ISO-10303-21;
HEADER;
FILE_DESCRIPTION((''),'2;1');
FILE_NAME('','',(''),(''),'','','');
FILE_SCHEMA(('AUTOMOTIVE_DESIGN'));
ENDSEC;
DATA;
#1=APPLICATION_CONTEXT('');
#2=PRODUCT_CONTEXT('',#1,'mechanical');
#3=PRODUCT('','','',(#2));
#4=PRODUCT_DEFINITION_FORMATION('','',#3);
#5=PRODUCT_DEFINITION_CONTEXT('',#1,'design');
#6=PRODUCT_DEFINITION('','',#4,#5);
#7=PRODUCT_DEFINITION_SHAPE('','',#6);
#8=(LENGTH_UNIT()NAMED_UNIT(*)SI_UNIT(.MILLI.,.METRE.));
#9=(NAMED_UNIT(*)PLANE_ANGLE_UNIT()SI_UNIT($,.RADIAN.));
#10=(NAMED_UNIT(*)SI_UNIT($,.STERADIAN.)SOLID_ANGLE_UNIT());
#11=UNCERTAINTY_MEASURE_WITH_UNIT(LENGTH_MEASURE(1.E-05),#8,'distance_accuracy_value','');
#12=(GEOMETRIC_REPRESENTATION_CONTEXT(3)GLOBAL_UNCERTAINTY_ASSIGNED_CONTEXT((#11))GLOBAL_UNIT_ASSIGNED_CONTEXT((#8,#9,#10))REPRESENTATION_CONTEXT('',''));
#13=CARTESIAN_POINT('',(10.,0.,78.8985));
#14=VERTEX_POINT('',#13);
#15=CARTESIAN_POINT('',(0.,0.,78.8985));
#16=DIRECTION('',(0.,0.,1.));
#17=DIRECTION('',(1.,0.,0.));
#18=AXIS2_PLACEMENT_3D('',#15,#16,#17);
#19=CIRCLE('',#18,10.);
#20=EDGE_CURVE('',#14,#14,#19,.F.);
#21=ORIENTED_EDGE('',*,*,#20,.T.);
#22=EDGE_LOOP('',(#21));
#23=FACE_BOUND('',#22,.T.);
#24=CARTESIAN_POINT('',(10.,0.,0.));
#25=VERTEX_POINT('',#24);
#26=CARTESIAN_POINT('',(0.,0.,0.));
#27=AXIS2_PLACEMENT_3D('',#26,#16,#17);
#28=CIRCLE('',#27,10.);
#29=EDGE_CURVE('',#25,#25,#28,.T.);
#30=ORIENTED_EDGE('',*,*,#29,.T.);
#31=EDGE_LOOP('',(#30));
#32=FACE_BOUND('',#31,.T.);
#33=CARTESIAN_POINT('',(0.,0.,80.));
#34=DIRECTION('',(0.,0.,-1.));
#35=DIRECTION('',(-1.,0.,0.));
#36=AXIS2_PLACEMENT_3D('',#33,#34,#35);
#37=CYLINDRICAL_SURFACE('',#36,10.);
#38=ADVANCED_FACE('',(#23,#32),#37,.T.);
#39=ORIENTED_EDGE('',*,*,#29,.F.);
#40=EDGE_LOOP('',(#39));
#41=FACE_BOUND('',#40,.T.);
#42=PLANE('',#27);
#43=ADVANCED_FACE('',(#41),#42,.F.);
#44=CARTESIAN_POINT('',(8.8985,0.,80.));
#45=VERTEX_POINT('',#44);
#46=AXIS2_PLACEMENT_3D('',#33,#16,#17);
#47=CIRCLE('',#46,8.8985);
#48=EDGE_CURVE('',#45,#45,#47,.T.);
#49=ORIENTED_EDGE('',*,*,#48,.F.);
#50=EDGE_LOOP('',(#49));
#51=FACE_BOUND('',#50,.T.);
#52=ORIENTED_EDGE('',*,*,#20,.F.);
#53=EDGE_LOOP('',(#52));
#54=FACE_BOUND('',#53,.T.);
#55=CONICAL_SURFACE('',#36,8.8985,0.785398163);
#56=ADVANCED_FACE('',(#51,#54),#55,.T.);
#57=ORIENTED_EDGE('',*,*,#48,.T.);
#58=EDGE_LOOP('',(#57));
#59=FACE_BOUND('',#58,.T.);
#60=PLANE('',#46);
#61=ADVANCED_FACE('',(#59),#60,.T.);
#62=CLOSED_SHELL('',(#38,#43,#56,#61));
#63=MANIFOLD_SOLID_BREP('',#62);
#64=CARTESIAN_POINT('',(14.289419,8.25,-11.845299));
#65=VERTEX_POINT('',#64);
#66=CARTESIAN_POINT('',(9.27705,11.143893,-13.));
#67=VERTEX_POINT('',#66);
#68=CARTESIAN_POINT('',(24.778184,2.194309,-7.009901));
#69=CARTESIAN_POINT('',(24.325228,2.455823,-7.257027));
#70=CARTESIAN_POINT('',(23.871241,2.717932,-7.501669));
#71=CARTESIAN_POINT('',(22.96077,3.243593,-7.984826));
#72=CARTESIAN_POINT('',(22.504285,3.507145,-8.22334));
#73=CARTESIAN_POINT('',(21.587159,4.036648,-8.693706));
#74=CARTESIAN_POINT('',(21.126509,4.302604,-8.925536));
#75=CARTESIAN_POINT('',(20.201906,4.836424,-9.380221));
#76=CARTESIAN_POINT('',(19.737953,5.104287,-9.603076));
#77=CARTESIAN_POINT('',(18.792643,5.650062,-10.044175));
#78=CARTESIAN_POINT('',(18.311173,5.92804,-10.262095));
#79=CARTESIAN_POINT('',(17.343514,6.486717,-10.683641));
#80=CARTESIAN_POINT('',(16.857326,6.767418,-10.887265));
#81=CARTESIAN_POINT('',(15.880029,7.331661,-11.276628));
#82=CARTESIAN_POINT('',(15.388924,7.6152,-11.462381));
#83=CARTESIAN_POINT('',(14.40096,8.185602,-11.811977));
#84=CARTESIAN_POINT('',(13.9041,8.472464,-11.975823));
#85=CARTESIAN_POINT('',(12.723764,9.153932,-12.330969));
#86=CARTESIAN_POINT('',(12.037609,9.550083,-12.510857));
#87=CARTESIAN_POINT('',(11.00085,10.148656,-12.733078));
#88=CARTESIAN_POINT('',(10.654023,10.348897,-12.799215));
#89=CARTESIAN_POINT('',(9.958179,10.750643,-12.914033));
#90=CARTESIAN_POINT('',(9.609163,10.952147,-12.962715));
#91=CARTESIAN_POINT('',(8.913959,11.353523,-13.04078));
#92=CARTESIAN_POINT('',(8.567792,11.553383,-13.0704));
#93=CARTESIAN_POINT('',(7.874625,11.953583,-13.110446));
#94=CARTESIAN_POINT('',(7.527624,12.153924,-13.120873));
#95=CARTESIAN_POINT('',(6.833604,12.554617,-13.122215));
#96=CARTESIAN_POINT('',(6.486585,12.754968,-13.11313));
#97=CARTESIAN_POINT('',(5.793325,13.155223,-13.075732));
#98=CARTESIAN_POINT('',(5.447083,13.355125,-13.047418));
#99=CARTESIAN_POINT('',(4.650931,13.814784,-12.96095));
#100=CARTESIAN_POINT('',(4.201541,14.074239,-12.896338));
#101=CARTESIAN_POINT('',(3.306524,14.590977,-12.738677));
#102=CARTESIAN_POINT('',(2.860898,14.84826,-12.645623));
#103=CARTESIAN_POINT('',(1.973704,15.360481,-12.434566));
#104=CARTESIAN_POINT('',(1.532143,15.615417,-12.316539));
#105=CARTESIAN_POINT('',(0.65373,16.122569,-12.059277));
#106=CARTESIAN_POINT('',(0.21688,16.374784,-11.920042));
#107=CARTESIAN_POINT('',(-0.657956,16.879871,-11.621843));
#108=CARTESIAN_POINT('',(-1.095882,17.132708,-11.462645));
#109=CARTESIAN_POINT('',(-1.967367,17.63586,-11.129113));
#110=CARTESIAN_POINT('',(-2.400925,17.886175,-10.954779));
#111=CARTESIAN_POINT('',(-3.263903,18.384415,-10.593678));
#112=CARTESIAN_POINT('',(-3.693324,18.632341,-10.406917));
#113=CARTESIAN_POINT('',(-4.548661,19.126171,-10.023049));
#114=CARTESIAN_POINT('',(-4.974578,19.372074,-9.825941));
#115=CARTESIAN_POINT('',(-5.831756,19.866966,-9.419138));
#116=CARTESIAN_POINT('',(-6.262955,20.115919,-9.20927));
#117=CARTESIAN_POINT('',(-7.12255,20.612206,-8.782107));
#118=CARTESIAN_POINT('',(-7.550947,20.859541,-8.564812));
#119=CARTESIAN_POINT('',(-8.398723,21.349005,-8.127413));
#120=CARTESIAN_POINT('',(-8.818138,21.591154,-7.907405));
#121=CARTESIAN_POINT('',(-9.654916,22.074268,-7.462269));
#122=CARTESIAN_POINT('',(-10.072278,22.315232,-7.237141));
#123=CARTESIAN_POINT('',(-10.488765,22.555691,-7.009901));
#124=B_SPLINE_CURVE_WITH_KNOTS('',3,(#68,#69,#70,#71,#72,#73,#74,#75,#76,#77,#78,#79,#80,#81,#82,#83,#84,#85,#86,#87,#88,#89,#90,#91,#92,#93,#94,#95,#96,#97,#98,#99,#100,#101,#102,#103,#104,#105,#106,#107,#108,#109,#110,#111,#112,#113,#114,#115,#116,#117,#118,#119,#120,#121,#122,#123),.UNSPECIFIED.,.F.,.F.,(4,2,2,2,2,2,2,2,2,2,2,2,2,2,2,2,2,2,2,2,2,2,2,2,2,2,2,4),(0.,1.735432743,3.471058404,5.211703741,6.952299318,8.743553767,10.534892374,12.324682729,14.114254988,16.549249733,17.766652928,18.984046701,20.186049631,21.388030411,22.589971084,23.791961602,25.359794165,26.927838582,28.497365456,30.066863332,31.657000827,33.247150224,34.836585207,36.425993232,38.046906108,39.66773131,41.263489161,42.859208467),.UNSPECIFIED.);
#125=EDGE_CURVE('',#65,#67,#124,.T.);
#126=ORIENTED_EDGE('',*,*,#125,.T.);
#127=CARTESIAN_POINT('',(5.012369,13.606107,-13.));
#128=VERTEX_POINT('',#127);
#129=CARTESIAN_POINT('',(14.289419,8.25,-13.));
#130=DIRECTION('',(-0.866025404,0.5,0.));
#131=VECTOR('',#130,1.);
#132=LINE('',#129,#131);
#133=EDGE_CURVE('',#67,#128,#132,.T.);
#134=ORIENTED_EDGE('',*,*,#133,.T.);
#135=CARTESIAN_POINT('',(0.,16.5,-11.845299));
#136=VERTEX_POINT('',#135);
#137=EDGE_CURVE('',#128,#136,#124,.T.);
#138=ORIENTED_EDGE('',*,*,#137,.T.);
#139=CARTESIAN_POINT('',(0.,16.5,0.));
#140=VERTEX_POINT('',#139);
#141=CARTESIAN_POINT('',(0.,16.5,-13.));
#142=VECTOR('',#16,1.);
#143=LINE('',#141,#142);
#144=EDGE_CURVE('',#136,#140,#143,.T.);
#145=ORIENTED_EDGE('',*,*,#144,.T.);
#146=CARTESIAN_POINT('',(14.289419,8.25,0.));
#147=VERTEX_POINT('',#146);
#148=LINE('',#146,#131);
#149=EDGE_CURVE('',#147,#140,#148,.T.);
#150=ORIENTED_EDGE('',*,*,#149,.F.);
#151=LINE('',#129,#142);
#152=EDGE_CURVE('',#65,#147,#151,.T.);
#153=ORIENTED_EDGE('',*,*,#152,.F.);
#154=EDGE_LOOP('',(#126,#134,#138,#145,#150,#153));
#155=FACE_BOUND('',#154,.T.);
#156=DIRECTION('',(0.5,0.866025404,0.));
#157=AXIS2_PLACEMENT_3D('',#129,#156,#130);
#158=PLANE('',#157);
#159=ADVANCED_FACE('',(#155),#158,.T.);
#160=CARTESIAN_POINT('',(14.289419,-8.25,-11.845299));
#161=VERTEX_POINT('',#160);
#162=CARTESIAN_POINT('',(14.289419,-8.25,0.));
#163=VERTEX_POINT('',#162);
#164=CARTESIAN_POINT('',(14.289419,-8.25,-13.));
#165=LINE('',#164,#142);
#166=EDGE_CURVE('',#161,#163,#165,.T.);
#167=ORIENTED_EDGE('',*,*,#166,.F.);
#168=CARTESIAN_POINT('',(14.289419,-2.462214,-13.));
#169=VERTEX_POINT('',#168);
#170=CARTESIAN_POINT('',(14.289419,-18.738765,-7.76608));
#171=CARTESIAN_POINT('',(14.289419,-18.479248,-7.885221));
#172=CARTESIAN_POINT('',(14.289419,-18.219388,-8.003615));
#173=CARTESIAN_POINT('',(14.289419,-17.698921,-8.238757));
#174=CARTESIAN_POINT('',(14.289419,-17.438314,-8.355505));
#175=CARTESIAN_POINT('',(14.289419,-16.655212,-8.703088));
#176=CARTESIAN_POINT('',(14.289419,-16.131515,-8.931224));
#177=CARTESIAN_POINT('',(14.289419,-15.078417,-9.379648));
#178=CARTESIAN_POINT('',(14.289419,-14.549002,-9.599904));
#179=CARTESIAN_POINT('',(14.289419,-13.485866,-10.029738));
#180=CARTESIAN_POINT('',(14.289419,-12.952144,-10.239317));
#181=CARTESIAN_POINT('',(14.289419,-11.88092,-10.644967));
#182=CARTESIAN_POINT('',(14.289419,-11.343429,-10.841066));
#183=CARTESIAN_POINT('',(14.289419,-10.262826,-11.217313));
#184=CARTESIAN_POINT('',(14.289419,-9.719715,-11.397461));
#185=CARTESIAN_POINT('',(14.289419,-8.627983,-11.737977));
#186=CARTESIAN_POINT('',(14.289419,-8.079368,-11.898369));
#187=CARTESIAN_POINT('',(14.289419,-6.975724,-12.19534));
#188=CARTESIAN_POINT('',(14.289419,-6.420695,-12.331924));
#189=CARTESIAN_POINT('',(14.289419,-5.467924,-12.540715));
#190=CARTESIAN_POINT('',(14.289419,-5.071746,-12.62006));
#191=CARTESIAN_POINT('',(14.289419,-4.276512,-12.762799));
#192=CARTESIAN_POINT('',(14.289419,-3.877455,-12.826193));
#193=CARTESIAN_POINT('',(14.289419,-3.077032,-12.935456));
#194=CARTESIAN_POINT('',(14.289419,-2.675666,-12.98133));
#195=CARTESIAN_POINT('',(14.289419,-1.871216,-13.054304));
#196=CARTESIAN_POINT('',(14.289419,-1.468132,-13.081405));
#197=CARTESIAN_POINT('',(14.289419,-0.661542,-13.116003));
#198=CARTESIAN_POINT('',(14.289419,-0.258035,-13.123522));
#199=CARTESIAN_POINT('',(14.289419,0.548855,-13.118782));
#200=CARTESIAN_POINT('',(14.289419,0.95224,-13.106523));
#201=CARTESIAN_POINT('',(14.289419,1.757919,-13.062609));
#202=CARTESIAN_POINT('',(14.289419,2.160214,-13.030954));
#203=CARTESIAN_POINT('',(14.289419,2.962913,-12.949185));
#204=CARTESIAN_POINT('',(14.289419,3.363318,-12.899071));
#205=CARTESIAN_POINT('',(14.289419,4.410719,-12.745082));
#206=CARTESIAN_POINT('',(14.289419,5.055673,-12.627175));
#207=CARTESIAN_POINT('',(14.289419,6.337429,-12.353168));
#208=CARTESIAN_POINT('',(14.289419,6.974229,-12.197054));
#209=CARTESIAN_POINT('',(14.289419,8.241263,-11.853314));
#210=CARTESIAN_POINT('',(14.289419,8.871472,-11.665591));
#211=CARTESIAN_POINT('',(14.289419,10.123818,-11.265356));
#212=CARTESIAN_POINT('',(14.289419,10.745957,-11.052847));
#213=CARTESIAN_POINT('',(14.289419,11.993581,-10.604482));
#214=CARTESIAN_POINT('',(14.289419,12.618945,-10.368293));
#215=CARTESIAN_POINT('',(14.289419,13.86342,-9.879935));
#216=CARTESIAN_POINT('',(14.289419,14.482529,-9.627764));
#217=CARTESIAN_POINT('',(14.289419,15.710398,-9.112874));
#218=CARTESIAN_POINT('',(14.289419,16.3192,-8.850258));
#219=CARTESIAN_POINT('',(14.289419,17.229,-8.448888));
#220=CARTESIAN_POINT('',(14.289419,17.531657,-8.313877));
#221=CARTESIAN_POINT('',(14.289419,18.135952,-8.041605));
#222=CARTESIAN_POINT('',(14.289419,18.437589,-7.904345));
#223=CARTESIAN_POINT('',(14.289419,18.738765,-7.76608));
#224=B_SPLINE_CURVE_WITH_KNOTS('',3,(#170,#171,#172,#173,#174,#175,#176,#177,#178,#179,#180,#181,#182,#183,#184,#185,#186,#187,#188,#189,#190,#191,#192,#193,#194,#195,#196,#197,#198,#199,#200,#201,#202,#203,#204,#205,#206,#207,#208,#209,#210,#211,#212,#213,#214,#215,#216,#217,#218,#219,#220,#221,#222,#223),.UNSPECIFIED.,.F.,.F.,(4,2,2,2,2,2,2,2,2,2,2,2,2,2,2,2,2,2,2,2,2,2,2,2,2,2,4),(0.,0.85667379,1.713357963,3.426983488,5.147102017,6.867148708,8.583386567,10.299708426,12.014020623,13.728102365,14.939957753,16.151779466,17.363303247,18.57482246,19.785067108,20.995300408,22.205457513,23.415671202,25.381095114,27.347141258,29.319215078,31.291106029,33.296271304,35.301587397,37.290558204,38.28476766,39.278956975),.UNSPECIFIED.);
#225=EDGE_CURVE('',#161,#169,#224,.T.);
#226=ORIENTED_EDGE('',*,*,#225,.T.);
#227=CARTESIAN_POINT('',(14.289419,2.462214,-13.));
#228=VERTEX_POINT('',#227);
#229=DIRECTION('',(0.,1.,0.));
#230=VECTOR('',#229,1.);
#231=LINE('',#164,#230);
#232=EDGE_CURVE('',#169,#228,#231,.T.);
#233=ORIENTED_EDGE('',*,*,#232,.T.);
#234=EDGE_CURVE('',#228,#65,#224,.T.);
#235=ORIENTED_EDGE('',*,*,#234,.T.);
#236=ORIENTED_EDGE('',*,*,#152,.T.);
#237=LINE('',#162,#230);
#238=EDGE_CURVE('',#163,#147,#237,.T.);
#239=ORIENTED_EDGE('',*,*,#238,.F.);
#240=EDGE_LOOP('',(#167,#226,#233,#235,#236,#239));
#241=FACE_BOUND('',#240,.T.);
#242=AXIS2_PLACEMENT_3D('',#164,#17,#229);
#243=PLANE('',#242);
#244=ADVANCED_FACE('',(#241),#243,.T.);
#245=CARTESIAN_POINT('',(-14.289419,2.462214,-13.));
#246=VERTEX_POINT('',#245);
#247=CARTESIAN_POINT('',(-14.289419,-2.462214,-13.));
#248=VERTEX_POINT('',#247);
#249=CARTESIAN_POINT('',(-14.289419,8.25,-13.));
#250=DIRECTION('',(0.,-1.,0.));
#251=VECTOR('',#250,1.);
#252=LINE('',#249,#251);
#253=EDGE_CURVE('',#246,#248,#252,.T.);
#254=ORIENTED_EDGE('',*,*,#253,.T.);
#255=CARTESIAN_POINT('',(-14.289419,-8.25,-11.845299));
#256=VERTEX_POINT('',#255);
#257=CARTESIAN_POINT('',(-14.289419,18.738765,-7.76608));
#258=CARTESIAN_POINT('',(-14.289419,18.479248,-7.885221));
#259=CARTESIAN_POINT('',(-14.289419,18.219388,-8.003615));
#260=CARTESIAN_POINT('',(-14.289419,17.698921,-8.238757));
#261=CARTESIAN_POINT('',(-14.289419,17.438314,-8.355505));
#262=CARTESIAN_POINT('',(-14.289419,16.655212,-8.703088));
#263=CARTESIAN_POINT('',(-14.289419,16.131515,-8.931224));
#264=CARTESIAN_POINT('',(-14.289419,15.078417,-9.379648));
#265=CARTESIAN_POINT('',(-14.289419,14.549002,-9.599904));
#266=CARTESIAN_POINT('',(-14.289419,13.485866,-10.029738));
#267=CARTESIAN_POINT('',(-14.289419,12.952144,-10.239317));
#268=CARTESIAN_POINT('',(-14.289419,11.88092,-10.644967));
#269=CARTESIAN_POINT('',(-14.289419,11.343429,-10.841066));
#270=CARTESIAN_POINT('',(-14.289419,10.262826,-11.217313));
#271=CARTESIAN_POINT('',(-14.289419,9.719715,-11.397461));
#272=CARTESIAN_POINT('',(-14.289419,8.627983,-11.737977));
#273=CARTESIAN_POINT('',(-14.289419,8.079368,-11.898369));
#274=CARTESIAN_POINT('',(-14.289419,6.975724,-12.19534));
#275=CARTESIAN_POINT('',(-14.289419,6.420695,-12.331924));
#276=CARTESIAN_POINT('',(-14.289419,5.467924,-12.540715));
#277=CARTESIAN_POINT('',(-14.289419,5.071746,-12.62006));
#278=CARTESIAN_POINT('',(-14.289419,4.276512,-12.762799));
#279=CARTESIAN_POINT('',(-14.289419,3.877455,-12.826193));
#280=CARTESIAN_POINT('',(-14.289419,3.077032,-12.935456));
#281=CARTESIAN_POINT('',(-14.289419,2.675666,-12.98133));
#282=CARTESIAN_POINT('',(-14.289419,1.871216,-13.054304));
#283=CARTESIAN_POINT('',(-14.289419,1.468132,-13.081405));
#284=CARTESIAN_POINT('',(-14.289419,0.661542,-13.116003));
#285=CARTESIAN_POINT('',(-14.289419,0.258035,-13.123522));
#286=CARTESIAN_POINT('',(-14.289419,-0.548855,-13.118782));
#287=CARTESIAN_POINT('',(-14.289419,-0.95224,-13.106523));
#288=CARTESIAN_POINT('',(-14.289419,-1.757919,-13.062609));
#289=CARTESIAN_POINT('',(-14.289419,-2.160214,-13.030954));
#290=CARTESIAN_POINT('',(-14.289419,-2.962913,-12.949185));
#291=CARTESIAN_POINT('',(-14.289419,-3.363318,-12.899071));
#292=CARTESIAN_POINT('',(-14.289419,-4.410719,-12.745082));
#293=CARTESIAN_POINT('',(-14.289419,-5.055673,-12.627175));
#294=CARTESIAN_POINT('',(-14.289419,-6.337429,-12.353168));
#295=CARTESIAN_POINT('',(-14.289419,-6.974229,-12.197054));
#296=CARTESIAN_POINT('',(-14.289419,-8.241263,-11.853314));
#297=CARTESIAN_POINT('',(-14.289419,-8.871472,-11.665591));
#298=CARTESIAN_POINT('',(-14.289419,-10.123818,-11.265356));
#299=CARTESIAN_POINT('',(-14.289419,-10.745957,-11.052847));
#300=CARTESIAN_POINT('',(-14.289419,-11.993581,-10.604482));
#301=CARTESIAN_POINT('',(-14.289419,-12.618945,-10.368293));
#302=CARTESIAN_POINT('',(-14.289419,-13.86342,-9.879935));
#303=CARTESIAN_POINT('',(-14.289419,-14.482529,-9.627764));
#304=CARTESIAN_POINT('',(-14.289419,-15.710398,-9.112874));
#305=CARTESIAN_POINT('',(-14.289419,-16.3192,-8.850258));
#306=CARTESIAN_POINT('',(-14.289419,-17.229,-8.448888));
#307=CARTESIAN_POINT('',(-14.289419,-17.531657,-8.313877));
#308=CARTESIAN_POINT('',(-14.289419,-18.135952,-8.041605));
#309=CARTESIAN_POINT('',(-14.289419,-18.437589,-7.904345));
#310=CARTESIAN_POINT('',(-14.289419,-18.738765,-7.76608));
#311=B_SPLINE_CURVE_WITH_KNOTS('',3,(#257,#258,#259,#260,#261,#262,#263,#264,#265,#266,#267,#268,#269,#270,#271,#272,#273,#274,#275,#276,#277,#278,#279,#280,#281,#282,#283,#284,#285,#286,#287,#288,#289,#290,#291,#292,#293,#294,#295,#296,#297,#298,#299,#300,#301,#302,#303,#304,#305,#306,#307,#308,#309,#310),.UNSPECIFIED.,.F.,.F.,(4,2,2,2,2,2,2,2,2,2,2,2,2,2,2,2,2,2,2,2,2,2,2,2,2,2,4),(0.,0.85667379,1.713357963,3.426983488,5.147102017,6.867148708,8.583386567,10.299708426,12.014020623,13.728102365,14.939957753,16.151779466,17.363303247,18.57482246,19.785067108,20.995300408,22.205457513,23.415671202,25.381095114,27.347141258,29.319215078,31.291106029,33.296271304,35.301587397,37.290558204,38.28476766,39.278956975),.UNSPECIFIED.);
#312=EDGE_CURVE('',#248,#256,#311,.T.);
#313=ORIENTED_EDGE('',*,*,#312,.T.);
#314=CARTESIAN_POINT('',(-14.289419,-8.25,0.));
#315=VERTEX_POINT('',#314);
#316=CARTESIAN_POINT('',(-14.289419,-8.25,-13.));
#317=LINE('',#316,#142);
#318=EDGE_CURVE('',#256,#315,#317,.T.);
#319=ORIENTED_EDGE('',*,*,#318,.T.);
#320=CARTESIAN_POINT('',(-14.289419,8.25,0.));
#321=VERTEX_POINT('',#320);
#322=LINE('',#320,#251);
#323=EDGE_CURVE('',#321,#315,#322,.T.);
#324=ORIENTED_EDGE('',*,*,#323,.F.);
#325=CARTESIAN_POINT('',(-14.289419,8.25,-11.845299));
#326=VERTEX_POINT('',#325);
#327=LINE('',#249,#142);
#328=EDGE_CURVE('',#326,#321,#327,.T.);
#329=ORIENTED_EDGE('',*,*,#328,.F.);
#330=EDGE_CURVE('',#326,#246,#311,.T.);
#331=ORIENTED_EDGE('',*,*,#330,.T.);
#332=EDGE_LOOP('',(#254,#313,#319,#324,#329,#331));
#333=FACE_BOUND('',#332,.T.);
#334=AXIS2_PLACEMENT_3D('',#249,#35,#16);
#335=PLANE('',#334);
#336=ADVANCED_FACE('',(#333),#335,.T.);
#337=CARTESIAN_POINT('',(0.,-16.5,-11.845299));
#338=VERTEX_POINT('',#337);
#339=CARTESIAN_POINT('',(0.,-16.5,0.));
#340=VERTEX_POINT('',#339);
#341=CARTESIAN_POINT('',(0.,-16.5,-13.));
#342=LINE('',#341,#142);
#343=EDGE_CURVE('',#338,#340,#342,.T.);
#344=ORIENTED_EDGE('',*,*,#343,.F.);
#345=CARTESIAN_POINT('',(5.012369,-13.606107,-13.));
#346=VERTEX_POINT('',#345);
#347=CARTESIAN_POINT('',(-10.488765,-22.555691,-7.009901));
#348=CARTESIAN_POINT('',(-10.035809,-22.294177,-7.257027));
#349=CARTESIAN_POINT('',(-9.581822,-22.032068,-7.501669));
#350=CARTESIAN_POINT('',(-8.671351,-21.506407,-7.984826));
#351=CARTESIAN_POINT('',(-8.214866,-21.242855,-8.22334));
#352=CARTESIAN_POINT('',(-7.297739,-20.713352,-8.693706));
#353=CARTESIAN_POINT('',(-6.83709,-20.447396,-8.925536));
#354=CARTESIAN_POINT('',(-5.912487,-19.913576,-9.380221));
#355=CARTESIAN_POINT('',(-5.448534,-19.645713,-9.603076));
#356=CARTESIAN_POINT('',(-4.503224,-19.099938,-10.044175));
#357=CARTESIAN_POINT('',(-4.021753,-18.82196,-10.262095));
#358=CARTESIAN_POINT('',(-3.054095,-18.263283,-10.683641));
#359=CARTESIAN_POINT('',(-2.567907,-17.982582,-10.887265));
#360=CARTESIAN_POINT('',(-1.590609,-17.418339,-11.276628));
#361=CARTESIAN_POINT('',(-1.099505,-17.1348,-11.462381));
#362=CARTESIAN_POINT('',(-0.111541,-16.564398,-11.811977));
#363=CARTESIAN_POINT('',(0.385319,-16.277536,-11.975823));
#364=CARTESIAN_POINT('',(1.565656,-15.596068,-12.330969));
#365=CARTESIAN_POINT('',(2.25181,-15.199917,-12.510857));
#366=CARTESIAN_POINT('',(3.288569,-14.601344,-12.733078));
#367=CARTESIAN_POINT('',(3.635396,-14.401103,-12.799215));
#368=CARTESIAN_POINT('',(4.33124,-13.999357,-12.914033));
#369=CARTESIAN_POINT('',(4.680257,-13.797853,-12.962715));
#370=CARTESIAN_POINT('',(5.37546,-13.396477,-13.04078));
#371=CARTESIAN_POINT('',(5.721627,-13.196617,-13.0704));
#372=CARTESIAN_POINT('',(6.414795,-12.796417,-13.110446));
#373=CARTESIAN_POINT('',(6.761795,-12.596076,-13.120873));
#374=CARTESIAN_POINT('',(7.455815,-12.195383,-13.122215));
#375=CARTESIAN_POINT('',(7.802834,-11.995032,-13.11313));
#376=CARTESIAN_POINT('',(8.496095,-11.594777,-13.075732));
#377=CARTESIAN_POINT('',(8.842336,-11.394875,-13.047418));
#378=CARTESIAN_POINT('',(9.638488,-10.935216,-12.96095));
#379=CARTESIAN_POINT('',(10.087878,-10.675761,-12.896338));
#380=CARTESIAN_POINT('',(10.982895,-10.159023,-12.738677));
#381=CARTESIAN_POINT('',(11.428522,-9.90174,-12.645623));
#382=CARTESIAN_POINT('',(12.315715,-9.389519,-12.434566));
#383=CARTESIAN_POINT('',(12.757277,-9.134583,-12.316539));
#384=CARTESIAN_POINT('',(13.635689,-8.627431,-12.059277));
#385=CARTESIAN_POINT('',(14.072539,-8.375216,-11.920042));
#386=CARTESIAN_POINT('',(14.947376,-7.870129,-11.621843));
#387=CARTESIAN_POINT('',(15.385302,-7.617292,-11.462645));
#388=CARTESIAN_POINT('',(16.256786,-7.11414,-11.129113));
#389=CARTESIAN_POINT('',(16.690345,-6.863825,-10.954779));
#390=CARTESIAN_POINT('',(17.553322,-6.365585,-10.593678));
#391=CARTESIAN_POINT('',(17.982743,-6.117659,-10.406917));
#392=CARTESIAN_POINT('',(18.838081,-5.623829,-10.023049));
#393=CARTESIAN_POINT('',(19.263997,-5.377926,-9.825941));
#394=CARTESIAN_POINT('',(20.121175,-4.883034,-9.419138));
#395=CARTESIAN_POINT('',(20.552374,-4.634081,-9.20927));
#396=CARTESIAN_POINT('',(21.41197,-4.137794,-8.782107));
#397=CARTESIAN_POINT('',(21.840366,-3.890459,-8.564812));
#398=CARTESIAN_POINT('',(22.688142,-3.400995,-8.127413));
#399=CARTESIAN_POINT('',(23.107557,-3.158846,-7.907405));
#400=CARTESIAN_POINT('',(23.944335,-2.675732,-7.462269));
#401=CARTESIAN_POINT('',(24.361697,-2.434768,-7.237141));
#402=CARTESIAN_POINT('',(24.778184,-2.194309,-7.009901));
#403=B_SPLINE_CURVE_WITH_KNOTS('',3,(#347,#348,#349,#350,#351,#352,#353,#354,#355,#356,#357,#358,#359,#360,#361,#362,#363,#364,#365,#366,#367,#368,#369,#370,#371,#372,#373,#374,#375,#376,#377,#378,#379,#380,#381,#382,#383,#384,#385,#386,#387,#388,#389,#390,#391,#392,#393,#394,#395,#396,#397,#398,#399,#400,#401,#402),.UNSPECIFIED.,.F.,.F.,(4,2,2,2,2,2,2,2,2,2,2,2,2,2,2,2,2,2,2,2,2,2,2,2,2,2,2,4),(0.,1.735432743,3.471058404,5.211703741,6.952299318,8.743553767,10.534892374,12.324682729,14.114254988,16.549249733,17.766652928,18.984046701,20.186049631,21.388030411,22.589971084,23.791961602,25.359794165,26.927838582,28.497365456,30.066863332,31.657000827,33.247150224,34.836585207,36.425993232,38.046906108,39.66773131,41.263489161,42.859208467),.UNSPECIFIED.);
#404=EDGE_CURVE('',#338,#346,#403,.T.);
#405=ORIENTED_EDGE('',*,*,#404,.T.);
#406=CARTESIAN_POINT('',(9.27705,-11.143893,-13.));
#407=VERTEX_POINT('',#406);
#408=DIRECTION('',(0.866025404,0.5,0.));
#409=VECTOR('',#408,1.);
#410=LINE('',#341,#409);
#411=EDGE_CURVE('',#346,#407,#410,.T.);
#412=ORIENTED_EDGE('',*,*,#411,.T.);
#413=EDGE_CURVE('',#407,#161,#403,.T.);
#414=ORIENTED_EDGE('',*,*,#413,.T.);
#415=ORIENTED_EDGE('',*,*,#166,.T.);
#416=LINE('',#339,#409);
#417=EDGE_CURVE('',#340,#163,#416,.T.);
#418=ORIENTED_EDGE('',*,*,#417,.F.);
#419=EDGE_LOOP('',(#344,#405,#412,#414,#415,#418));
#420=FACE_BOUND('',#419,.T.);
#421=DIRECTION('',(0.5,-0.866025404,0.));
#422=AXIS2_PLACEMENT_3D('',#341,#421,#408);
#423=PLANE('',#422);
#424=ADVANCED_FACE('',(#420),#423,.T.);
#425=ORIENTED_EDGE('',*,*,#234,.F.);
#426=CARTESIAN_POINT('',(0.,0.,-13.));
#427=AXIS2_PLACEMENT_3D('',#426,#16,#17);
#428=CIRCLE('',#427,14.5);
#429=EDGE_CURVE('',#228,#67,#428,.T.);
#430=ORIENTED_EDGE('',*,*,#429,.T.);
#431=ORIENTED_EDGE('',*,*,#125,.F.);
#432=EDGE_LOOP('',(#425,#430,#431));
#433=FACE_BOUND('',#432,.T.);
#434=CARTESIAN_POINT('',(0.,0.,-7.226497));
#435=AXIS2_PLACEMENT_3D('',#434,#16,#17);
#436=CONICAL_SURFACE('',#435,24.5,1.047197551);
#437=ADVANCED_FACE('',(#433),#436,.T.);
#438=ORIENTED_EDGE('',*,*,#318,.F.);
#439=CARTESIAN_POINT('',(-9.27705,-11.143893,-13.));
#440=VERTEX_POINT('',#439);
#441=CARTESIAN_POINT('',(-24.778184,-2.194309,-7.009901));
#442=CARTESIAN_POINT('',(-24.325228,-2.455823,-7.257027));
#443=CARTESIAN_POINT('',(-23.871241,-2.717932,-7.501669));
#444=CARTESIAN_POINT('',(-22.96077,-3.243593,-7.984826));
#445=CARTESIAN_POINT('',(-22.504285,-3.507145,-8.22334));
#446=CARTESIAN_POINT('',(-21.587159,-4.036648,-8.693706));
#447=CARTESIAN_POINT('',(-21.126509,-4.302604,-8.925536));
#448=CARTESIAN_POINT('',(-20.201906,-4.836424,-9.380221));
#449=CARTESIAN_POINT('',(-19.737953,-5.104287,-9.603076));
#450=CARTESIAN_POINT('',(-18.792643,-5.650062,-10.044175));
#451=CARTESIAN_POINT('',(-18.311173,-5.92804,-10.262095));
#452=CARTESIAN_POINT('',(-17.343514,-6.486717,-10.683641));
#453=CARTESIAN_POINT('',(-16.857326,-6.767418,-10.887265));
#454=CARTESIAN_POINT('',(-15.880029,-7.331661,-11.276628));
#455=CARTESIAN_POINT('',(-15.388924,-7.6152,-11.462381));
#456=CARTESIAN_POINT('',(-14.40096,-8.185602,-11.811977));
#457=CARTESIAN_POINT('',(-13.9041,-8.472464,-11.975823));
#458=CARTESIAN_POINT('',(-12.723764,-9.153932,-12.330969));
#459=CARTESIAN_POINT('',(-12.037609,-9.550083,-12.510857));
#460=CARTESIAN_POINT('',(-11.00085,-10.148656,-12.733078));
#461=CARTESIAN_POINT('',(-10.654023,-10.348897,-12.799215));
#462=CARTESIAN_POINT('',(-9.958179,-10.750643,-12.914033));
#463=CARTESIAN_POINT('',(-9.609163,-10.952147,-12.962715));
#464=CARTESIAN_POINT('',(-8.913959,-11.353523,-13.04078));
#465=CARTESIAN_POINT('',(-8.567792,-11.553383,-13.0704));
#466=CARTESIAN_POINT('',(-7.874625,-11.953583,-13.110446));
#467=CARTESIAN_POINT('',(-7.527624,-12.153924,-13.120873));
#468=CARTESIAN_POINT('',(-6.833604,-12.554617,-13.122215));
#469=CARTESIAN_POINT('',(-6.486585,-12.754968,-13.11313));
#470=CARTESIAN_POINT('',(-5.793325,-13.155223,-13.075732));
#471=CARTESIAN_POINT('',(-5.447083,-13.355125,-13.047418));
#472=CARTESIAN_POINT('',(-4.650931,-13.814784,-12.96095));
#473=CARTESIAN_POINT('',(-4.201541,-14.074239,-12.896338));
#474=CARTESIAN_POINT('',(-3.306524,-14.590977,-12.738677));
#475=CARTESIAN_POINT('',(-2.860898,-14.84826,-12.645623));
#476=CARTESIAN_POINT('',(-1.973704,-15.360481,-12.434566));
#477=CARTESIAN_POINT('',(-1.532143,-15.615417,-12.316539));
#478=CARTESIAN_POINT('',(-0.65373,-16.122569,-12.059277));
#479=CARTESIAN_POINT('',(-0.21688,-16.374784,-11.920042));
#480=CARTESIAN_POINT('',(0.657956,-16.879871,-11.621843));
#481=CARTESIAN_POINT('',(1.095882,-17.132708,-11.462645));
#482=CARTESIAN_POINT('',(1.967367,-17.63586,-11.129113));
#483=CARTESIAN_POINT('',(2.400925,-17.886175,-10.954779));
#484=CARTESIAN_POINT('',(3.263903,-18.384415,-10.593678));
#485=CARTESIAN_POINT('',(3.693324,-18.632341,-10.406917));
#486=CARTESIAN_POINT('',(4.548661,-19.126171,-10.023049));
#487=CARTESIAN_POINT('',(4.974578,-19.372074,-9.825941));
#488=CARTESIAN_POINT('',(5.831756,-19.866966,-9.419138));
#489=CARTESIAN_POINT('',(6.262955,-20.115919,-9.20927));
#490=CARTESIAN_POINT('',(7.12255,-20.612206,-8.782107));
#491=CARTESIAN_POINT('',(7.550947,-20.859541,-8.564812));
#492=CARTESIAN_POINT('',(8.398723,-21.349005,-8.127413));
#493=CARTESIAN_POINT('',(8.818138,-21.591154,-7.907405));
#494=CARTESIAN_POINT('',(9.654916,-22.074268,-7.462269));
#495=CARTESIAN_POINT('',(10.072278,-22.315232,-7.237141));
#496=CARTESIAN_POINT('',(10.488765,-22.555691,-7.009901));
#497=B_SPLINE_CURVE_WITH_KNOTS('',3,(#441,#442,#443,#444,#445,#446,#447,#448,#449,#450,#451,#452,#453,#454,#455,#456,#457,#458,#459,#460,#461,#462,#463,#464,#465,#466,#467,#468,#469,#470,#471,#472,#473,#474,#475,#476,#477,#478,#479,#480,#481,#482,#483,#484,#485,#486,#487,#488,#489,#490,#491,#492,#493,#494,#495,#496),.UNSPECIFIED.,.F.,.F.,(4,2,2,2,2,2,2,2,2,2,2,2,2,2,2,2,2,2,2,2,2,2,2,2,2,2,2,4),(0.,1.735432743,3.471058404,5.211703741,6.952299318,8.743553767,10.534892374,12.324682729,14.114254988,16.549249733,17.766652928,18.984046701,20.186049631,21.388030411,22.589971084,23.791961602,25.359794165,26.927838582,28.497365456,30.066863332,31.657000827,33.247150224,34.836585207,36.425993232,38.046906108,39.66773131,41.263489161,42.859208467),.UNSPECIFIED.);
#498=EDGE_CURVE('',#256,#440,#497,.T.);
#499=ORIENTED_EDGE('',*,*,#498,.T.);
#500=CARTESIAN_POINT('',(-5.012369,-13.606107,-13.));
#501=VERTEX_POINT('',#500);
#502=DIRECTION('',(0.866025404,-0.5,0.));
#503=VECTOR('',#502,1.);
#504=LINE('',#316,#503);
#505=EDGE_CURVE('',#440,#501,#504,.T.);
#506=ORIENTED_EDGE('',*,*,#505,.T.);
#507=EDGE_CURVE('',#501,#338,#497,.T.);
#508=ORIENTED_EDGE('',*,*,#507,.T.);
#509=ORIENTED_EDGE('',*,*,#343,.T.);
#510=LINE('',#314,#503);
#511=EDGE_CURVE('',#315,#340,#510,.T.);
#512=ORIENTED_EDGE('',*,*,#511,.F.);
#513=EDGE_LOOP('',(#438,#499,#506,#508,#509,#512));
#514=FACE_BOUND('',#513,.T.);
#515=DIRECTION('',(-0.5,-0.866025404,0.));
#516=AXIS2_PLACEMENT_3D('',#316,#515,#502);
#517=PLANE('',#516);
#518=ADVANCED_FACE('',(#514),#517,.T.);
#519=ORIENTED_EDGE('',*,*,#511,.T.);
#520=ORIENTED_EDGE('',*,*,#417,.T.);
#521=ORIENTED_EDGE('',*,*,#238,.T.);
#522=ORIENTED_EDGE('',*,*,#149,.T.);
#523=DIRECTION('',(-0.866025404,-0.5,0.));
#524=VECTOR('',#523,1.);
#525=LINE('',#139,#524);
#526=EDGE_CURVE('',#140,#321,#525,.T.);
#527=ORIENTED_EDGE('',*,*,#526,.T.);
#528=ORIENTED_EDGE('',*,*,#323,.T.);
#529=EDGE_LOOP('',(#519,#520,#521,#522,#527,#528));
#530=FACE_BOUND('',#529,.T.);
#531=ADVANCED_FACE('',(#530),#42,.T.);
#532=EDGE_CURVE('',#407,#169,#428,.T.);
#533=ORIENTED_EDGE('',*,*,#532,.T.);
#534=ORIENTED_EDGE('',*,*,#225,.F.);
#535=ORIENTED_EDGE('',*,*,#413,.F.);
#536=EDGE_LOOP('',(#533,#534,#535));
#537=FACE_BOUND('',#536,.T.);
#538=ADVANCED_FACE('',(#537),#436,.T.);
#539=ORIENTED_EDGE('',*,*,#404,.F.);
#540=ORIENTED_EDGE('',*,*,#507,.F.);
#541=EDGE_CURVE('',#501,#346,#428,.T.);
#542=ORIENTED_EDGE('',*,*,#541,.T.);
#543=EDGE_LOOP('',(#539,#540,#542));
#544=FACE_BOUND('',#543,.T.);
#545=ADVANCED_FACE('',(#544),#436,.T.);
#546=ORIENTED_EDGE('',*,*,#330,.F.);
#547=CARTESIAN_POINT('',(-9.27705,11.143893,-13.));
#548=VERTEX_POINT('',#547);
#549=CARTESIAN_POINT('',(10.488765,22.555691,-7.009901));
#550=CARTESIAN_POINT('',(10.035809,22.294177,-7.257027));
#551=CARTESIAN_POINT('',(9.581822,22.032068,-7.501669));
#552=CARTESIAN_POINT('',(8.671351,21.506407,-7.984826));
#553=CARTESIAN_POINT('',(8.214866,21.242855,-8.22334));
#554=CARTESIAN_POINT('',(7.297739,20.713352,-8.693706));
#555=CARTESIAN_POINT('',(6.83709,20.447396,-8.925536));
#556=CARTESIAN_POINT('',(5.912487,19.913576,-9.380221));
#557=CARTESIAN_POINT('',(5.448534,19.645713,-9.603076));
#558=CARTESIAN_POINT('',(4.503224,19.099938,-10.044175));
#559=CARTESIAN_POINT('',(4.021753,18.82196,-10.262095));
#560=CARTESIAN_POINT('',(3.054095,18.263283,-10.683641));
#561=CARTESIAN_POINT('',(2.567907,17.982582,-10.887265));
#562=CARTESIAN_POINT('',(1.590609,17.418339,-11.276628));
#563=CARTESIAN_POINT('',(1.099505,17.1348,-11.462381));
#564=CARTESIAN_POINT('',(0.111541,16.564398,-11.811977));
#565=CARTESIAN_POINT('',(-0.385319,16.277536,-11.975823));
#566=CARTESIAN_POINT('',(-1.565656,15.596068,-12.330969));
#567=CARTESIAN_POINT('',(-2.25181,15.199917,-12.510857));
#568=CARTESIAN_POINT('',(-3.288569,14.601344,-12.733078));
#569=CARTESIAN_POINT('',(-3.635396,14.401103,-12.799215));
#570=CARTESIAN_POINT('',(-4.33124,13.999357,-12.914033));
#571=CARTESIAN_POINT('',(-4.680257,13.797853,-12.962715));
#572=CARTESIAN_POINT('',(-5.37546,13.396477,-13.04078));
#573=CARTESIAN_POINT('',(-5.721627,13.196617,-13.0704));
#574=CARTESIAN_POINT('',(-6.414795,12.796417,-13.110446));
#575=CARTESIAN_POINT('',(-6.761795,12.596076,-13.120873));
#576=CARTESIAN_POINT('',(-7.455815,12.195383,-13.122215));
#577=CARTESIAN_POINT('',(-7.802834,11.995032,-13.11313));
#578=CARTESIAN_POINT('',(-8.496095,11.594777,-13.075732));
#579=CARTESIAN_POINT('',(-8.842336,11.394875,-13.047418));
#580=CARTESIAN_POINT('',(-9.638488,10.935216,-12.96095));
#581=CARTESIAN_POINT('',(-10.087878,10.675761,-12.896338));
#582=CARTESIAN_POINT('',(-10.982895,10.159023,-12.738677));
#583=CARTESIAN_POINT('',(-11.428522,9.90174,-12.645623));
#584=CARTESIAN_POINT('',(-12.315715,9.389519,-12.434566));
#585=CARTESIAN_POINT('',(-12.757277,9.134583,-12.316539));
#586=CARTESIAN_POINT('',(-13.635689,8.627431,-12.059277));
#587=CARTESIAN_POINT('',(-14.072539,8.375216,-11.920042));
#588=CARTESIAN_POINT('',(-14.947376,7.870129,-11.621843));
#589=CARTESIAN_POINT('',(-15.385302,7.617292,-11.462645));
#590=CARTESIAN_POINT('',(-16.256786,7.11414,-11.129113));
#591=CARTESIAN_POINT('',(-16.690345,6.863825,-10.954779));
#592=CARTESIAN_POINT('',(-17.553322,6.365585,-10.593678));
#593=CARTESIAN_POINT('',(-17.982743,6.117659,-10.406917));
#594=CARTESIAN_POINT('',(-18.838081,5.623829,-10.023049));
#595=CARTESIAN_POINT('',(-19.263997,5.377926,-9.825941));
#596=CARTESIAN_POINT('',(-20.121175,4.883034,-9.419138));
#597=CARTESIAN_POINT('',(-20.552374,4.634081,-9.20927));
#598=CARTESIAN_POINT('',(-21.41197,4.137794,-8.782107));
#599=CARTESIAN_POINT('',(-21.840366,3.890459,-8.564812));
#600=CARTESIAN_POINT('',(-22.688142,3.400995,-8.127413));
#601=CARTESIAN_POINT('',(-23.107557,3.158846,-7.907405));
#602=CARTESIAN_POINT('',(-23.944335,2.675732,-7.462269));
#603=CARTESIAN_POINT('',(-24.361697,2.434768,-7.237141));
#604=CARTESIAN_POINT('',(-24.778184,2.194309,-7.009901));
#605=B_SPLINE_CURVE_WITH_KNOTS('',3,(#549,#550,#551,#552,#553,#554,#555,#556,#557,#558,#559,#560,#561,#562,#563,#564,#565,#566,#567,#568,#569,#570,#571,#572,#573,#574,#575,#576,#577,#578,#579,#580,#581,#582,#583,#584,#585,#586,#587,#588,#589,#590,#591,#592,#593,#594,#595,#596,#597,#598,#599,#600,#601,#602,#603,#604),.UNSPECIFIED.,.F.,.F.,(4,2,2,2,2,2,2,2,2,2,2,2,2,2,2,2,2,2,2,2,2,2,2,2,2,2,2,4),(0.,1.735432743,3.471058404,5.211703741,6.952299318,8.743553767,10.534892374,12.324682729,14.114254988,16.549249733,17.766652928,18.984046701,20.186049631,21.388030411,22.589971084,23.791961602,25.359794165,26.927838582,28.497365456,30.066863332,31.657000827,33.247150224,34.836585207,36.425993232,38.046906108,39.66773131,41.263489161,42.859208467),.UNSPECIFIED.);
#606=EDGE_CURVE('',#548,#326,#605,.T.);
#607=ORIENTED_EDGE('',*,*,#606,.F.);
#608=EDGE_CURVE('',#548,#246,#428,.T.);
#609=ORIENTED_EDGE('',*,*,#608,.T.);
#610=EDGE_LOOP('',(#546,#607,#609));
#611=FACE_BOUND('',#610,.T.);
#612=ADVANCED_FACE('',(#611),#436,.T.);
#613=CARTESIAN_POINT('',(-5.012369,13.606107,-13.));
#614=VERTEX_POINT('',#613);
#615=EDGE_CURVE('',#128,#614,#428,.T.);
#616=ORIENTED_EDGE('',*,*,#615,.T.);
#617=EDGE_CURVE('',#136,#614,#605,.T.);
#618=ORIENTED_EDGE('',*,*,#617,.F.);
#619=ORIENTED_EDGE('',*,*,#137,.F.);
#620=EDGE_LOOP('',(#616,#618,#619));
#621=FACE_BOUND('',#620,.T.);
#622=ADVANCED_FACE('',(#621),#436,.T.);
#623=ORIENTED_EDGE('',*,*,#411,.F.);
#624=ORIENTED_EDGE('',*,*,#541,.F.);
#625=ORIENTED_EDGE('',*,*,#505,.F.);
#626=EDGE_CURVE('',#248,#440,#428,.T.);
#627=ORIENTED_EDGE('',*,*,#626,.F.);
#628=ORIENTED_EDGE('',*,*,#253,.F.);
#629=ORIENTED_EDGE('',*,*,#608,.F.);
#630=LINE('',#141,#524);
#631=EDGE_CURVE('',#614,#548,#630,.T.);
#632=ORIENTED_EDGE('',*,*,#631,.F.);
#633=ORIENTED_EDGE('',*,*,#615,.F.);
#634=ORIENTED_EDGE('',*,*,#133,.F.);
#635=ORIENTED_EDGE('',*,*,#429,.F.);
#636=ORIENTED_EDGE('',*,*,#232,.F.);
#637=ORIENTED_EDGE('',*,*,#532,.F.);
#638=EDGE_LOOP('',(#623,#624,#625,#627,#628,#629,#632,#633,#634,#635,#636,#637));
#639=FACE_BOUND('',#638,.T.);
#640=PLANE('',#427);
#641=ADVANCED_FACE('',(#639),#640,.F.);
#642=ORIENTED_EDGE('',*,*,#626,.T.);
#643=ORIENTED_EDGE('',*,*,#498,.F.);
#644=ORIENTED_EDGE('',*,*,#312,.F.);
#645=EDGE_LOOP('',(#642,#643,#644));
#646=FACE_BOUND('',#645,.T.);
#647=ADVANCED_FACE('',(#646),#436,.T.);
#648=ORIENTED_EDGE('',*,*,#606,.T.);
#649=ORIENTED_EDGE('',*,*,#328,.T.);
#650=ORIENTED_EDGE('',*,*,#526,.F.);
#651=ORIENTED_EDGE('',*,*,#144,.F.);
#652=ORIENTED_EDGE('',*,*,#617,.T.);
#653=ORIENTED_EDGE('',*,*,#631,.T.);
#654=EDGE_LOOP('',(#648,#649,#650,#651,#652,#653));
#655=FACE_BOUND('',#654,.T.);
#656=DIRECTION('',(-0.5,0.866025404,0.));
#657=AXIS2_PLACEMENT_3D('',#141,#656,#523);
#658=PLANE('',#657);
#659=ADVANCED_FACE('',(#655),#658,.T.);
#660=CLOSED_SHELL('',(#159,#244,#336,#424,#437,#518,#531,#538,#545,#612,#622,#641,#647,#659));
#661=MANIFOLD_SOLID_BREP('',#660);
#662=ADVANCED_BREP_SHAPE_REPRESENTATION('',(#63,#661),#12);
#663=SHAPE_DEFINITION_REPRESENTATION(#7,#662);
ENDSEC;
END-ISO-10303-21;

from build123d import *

# Parameters (mm, degrees)
SKETCH_1_R      = 10
EXTRUDE_1_DEPTH = 80
EXTRUDE_2_DEPTH = 13
CHAMFER_1_SIZE  = 1.1015


with BuildPart() as part:
    # Эскиз1 → Бобышка-Вытянуть1 (new body)
    with BuildSketch(Plane.XY):
        Circle(SKETCH_1_R)
    extrude(amount=EXTRUDE_1_DEPTH)

    # Фаска1
    chamfer_1_edges = [part.edges().sort_by_distance(p)[0] for p in [
        (-10, 0, 80),
    ]]
    chamfer(chamfer_1_edges, length=CHAMFER_1_SIZE)


with BuildPart() as body_2:
    # Эскиз1<4> → Бобышка-Вытянуть2 (new body)
    with BuildSketch(Plane.XY):
        Polygon((0, 16.5), (-14.289419162, 8.25), (-14.289419162, -8.25), (0, -16.5), (14.289419162, -8.25), (14.289419162, 8.25), align=None)
    extrude(amount=-EXTRUDE_2_DEPTH)

    # Эскиз3 → Вырез-Повернуть1 (revolve, cut)
    with BuildSketch(Plane(origin=(0, 0, 0), x_dir=(0, 0, -1), z_dir=(1, 0, 0))):
        Polygon((13, 24.5), (13, 14.5), (7.226497308, 24.5), align=None)
    revolve(axis=Axis((0, 0, 0), (0, 0, -1)), mode=Mode.SUBTRACT)


solid = Compound([part.part, body_2.part])
